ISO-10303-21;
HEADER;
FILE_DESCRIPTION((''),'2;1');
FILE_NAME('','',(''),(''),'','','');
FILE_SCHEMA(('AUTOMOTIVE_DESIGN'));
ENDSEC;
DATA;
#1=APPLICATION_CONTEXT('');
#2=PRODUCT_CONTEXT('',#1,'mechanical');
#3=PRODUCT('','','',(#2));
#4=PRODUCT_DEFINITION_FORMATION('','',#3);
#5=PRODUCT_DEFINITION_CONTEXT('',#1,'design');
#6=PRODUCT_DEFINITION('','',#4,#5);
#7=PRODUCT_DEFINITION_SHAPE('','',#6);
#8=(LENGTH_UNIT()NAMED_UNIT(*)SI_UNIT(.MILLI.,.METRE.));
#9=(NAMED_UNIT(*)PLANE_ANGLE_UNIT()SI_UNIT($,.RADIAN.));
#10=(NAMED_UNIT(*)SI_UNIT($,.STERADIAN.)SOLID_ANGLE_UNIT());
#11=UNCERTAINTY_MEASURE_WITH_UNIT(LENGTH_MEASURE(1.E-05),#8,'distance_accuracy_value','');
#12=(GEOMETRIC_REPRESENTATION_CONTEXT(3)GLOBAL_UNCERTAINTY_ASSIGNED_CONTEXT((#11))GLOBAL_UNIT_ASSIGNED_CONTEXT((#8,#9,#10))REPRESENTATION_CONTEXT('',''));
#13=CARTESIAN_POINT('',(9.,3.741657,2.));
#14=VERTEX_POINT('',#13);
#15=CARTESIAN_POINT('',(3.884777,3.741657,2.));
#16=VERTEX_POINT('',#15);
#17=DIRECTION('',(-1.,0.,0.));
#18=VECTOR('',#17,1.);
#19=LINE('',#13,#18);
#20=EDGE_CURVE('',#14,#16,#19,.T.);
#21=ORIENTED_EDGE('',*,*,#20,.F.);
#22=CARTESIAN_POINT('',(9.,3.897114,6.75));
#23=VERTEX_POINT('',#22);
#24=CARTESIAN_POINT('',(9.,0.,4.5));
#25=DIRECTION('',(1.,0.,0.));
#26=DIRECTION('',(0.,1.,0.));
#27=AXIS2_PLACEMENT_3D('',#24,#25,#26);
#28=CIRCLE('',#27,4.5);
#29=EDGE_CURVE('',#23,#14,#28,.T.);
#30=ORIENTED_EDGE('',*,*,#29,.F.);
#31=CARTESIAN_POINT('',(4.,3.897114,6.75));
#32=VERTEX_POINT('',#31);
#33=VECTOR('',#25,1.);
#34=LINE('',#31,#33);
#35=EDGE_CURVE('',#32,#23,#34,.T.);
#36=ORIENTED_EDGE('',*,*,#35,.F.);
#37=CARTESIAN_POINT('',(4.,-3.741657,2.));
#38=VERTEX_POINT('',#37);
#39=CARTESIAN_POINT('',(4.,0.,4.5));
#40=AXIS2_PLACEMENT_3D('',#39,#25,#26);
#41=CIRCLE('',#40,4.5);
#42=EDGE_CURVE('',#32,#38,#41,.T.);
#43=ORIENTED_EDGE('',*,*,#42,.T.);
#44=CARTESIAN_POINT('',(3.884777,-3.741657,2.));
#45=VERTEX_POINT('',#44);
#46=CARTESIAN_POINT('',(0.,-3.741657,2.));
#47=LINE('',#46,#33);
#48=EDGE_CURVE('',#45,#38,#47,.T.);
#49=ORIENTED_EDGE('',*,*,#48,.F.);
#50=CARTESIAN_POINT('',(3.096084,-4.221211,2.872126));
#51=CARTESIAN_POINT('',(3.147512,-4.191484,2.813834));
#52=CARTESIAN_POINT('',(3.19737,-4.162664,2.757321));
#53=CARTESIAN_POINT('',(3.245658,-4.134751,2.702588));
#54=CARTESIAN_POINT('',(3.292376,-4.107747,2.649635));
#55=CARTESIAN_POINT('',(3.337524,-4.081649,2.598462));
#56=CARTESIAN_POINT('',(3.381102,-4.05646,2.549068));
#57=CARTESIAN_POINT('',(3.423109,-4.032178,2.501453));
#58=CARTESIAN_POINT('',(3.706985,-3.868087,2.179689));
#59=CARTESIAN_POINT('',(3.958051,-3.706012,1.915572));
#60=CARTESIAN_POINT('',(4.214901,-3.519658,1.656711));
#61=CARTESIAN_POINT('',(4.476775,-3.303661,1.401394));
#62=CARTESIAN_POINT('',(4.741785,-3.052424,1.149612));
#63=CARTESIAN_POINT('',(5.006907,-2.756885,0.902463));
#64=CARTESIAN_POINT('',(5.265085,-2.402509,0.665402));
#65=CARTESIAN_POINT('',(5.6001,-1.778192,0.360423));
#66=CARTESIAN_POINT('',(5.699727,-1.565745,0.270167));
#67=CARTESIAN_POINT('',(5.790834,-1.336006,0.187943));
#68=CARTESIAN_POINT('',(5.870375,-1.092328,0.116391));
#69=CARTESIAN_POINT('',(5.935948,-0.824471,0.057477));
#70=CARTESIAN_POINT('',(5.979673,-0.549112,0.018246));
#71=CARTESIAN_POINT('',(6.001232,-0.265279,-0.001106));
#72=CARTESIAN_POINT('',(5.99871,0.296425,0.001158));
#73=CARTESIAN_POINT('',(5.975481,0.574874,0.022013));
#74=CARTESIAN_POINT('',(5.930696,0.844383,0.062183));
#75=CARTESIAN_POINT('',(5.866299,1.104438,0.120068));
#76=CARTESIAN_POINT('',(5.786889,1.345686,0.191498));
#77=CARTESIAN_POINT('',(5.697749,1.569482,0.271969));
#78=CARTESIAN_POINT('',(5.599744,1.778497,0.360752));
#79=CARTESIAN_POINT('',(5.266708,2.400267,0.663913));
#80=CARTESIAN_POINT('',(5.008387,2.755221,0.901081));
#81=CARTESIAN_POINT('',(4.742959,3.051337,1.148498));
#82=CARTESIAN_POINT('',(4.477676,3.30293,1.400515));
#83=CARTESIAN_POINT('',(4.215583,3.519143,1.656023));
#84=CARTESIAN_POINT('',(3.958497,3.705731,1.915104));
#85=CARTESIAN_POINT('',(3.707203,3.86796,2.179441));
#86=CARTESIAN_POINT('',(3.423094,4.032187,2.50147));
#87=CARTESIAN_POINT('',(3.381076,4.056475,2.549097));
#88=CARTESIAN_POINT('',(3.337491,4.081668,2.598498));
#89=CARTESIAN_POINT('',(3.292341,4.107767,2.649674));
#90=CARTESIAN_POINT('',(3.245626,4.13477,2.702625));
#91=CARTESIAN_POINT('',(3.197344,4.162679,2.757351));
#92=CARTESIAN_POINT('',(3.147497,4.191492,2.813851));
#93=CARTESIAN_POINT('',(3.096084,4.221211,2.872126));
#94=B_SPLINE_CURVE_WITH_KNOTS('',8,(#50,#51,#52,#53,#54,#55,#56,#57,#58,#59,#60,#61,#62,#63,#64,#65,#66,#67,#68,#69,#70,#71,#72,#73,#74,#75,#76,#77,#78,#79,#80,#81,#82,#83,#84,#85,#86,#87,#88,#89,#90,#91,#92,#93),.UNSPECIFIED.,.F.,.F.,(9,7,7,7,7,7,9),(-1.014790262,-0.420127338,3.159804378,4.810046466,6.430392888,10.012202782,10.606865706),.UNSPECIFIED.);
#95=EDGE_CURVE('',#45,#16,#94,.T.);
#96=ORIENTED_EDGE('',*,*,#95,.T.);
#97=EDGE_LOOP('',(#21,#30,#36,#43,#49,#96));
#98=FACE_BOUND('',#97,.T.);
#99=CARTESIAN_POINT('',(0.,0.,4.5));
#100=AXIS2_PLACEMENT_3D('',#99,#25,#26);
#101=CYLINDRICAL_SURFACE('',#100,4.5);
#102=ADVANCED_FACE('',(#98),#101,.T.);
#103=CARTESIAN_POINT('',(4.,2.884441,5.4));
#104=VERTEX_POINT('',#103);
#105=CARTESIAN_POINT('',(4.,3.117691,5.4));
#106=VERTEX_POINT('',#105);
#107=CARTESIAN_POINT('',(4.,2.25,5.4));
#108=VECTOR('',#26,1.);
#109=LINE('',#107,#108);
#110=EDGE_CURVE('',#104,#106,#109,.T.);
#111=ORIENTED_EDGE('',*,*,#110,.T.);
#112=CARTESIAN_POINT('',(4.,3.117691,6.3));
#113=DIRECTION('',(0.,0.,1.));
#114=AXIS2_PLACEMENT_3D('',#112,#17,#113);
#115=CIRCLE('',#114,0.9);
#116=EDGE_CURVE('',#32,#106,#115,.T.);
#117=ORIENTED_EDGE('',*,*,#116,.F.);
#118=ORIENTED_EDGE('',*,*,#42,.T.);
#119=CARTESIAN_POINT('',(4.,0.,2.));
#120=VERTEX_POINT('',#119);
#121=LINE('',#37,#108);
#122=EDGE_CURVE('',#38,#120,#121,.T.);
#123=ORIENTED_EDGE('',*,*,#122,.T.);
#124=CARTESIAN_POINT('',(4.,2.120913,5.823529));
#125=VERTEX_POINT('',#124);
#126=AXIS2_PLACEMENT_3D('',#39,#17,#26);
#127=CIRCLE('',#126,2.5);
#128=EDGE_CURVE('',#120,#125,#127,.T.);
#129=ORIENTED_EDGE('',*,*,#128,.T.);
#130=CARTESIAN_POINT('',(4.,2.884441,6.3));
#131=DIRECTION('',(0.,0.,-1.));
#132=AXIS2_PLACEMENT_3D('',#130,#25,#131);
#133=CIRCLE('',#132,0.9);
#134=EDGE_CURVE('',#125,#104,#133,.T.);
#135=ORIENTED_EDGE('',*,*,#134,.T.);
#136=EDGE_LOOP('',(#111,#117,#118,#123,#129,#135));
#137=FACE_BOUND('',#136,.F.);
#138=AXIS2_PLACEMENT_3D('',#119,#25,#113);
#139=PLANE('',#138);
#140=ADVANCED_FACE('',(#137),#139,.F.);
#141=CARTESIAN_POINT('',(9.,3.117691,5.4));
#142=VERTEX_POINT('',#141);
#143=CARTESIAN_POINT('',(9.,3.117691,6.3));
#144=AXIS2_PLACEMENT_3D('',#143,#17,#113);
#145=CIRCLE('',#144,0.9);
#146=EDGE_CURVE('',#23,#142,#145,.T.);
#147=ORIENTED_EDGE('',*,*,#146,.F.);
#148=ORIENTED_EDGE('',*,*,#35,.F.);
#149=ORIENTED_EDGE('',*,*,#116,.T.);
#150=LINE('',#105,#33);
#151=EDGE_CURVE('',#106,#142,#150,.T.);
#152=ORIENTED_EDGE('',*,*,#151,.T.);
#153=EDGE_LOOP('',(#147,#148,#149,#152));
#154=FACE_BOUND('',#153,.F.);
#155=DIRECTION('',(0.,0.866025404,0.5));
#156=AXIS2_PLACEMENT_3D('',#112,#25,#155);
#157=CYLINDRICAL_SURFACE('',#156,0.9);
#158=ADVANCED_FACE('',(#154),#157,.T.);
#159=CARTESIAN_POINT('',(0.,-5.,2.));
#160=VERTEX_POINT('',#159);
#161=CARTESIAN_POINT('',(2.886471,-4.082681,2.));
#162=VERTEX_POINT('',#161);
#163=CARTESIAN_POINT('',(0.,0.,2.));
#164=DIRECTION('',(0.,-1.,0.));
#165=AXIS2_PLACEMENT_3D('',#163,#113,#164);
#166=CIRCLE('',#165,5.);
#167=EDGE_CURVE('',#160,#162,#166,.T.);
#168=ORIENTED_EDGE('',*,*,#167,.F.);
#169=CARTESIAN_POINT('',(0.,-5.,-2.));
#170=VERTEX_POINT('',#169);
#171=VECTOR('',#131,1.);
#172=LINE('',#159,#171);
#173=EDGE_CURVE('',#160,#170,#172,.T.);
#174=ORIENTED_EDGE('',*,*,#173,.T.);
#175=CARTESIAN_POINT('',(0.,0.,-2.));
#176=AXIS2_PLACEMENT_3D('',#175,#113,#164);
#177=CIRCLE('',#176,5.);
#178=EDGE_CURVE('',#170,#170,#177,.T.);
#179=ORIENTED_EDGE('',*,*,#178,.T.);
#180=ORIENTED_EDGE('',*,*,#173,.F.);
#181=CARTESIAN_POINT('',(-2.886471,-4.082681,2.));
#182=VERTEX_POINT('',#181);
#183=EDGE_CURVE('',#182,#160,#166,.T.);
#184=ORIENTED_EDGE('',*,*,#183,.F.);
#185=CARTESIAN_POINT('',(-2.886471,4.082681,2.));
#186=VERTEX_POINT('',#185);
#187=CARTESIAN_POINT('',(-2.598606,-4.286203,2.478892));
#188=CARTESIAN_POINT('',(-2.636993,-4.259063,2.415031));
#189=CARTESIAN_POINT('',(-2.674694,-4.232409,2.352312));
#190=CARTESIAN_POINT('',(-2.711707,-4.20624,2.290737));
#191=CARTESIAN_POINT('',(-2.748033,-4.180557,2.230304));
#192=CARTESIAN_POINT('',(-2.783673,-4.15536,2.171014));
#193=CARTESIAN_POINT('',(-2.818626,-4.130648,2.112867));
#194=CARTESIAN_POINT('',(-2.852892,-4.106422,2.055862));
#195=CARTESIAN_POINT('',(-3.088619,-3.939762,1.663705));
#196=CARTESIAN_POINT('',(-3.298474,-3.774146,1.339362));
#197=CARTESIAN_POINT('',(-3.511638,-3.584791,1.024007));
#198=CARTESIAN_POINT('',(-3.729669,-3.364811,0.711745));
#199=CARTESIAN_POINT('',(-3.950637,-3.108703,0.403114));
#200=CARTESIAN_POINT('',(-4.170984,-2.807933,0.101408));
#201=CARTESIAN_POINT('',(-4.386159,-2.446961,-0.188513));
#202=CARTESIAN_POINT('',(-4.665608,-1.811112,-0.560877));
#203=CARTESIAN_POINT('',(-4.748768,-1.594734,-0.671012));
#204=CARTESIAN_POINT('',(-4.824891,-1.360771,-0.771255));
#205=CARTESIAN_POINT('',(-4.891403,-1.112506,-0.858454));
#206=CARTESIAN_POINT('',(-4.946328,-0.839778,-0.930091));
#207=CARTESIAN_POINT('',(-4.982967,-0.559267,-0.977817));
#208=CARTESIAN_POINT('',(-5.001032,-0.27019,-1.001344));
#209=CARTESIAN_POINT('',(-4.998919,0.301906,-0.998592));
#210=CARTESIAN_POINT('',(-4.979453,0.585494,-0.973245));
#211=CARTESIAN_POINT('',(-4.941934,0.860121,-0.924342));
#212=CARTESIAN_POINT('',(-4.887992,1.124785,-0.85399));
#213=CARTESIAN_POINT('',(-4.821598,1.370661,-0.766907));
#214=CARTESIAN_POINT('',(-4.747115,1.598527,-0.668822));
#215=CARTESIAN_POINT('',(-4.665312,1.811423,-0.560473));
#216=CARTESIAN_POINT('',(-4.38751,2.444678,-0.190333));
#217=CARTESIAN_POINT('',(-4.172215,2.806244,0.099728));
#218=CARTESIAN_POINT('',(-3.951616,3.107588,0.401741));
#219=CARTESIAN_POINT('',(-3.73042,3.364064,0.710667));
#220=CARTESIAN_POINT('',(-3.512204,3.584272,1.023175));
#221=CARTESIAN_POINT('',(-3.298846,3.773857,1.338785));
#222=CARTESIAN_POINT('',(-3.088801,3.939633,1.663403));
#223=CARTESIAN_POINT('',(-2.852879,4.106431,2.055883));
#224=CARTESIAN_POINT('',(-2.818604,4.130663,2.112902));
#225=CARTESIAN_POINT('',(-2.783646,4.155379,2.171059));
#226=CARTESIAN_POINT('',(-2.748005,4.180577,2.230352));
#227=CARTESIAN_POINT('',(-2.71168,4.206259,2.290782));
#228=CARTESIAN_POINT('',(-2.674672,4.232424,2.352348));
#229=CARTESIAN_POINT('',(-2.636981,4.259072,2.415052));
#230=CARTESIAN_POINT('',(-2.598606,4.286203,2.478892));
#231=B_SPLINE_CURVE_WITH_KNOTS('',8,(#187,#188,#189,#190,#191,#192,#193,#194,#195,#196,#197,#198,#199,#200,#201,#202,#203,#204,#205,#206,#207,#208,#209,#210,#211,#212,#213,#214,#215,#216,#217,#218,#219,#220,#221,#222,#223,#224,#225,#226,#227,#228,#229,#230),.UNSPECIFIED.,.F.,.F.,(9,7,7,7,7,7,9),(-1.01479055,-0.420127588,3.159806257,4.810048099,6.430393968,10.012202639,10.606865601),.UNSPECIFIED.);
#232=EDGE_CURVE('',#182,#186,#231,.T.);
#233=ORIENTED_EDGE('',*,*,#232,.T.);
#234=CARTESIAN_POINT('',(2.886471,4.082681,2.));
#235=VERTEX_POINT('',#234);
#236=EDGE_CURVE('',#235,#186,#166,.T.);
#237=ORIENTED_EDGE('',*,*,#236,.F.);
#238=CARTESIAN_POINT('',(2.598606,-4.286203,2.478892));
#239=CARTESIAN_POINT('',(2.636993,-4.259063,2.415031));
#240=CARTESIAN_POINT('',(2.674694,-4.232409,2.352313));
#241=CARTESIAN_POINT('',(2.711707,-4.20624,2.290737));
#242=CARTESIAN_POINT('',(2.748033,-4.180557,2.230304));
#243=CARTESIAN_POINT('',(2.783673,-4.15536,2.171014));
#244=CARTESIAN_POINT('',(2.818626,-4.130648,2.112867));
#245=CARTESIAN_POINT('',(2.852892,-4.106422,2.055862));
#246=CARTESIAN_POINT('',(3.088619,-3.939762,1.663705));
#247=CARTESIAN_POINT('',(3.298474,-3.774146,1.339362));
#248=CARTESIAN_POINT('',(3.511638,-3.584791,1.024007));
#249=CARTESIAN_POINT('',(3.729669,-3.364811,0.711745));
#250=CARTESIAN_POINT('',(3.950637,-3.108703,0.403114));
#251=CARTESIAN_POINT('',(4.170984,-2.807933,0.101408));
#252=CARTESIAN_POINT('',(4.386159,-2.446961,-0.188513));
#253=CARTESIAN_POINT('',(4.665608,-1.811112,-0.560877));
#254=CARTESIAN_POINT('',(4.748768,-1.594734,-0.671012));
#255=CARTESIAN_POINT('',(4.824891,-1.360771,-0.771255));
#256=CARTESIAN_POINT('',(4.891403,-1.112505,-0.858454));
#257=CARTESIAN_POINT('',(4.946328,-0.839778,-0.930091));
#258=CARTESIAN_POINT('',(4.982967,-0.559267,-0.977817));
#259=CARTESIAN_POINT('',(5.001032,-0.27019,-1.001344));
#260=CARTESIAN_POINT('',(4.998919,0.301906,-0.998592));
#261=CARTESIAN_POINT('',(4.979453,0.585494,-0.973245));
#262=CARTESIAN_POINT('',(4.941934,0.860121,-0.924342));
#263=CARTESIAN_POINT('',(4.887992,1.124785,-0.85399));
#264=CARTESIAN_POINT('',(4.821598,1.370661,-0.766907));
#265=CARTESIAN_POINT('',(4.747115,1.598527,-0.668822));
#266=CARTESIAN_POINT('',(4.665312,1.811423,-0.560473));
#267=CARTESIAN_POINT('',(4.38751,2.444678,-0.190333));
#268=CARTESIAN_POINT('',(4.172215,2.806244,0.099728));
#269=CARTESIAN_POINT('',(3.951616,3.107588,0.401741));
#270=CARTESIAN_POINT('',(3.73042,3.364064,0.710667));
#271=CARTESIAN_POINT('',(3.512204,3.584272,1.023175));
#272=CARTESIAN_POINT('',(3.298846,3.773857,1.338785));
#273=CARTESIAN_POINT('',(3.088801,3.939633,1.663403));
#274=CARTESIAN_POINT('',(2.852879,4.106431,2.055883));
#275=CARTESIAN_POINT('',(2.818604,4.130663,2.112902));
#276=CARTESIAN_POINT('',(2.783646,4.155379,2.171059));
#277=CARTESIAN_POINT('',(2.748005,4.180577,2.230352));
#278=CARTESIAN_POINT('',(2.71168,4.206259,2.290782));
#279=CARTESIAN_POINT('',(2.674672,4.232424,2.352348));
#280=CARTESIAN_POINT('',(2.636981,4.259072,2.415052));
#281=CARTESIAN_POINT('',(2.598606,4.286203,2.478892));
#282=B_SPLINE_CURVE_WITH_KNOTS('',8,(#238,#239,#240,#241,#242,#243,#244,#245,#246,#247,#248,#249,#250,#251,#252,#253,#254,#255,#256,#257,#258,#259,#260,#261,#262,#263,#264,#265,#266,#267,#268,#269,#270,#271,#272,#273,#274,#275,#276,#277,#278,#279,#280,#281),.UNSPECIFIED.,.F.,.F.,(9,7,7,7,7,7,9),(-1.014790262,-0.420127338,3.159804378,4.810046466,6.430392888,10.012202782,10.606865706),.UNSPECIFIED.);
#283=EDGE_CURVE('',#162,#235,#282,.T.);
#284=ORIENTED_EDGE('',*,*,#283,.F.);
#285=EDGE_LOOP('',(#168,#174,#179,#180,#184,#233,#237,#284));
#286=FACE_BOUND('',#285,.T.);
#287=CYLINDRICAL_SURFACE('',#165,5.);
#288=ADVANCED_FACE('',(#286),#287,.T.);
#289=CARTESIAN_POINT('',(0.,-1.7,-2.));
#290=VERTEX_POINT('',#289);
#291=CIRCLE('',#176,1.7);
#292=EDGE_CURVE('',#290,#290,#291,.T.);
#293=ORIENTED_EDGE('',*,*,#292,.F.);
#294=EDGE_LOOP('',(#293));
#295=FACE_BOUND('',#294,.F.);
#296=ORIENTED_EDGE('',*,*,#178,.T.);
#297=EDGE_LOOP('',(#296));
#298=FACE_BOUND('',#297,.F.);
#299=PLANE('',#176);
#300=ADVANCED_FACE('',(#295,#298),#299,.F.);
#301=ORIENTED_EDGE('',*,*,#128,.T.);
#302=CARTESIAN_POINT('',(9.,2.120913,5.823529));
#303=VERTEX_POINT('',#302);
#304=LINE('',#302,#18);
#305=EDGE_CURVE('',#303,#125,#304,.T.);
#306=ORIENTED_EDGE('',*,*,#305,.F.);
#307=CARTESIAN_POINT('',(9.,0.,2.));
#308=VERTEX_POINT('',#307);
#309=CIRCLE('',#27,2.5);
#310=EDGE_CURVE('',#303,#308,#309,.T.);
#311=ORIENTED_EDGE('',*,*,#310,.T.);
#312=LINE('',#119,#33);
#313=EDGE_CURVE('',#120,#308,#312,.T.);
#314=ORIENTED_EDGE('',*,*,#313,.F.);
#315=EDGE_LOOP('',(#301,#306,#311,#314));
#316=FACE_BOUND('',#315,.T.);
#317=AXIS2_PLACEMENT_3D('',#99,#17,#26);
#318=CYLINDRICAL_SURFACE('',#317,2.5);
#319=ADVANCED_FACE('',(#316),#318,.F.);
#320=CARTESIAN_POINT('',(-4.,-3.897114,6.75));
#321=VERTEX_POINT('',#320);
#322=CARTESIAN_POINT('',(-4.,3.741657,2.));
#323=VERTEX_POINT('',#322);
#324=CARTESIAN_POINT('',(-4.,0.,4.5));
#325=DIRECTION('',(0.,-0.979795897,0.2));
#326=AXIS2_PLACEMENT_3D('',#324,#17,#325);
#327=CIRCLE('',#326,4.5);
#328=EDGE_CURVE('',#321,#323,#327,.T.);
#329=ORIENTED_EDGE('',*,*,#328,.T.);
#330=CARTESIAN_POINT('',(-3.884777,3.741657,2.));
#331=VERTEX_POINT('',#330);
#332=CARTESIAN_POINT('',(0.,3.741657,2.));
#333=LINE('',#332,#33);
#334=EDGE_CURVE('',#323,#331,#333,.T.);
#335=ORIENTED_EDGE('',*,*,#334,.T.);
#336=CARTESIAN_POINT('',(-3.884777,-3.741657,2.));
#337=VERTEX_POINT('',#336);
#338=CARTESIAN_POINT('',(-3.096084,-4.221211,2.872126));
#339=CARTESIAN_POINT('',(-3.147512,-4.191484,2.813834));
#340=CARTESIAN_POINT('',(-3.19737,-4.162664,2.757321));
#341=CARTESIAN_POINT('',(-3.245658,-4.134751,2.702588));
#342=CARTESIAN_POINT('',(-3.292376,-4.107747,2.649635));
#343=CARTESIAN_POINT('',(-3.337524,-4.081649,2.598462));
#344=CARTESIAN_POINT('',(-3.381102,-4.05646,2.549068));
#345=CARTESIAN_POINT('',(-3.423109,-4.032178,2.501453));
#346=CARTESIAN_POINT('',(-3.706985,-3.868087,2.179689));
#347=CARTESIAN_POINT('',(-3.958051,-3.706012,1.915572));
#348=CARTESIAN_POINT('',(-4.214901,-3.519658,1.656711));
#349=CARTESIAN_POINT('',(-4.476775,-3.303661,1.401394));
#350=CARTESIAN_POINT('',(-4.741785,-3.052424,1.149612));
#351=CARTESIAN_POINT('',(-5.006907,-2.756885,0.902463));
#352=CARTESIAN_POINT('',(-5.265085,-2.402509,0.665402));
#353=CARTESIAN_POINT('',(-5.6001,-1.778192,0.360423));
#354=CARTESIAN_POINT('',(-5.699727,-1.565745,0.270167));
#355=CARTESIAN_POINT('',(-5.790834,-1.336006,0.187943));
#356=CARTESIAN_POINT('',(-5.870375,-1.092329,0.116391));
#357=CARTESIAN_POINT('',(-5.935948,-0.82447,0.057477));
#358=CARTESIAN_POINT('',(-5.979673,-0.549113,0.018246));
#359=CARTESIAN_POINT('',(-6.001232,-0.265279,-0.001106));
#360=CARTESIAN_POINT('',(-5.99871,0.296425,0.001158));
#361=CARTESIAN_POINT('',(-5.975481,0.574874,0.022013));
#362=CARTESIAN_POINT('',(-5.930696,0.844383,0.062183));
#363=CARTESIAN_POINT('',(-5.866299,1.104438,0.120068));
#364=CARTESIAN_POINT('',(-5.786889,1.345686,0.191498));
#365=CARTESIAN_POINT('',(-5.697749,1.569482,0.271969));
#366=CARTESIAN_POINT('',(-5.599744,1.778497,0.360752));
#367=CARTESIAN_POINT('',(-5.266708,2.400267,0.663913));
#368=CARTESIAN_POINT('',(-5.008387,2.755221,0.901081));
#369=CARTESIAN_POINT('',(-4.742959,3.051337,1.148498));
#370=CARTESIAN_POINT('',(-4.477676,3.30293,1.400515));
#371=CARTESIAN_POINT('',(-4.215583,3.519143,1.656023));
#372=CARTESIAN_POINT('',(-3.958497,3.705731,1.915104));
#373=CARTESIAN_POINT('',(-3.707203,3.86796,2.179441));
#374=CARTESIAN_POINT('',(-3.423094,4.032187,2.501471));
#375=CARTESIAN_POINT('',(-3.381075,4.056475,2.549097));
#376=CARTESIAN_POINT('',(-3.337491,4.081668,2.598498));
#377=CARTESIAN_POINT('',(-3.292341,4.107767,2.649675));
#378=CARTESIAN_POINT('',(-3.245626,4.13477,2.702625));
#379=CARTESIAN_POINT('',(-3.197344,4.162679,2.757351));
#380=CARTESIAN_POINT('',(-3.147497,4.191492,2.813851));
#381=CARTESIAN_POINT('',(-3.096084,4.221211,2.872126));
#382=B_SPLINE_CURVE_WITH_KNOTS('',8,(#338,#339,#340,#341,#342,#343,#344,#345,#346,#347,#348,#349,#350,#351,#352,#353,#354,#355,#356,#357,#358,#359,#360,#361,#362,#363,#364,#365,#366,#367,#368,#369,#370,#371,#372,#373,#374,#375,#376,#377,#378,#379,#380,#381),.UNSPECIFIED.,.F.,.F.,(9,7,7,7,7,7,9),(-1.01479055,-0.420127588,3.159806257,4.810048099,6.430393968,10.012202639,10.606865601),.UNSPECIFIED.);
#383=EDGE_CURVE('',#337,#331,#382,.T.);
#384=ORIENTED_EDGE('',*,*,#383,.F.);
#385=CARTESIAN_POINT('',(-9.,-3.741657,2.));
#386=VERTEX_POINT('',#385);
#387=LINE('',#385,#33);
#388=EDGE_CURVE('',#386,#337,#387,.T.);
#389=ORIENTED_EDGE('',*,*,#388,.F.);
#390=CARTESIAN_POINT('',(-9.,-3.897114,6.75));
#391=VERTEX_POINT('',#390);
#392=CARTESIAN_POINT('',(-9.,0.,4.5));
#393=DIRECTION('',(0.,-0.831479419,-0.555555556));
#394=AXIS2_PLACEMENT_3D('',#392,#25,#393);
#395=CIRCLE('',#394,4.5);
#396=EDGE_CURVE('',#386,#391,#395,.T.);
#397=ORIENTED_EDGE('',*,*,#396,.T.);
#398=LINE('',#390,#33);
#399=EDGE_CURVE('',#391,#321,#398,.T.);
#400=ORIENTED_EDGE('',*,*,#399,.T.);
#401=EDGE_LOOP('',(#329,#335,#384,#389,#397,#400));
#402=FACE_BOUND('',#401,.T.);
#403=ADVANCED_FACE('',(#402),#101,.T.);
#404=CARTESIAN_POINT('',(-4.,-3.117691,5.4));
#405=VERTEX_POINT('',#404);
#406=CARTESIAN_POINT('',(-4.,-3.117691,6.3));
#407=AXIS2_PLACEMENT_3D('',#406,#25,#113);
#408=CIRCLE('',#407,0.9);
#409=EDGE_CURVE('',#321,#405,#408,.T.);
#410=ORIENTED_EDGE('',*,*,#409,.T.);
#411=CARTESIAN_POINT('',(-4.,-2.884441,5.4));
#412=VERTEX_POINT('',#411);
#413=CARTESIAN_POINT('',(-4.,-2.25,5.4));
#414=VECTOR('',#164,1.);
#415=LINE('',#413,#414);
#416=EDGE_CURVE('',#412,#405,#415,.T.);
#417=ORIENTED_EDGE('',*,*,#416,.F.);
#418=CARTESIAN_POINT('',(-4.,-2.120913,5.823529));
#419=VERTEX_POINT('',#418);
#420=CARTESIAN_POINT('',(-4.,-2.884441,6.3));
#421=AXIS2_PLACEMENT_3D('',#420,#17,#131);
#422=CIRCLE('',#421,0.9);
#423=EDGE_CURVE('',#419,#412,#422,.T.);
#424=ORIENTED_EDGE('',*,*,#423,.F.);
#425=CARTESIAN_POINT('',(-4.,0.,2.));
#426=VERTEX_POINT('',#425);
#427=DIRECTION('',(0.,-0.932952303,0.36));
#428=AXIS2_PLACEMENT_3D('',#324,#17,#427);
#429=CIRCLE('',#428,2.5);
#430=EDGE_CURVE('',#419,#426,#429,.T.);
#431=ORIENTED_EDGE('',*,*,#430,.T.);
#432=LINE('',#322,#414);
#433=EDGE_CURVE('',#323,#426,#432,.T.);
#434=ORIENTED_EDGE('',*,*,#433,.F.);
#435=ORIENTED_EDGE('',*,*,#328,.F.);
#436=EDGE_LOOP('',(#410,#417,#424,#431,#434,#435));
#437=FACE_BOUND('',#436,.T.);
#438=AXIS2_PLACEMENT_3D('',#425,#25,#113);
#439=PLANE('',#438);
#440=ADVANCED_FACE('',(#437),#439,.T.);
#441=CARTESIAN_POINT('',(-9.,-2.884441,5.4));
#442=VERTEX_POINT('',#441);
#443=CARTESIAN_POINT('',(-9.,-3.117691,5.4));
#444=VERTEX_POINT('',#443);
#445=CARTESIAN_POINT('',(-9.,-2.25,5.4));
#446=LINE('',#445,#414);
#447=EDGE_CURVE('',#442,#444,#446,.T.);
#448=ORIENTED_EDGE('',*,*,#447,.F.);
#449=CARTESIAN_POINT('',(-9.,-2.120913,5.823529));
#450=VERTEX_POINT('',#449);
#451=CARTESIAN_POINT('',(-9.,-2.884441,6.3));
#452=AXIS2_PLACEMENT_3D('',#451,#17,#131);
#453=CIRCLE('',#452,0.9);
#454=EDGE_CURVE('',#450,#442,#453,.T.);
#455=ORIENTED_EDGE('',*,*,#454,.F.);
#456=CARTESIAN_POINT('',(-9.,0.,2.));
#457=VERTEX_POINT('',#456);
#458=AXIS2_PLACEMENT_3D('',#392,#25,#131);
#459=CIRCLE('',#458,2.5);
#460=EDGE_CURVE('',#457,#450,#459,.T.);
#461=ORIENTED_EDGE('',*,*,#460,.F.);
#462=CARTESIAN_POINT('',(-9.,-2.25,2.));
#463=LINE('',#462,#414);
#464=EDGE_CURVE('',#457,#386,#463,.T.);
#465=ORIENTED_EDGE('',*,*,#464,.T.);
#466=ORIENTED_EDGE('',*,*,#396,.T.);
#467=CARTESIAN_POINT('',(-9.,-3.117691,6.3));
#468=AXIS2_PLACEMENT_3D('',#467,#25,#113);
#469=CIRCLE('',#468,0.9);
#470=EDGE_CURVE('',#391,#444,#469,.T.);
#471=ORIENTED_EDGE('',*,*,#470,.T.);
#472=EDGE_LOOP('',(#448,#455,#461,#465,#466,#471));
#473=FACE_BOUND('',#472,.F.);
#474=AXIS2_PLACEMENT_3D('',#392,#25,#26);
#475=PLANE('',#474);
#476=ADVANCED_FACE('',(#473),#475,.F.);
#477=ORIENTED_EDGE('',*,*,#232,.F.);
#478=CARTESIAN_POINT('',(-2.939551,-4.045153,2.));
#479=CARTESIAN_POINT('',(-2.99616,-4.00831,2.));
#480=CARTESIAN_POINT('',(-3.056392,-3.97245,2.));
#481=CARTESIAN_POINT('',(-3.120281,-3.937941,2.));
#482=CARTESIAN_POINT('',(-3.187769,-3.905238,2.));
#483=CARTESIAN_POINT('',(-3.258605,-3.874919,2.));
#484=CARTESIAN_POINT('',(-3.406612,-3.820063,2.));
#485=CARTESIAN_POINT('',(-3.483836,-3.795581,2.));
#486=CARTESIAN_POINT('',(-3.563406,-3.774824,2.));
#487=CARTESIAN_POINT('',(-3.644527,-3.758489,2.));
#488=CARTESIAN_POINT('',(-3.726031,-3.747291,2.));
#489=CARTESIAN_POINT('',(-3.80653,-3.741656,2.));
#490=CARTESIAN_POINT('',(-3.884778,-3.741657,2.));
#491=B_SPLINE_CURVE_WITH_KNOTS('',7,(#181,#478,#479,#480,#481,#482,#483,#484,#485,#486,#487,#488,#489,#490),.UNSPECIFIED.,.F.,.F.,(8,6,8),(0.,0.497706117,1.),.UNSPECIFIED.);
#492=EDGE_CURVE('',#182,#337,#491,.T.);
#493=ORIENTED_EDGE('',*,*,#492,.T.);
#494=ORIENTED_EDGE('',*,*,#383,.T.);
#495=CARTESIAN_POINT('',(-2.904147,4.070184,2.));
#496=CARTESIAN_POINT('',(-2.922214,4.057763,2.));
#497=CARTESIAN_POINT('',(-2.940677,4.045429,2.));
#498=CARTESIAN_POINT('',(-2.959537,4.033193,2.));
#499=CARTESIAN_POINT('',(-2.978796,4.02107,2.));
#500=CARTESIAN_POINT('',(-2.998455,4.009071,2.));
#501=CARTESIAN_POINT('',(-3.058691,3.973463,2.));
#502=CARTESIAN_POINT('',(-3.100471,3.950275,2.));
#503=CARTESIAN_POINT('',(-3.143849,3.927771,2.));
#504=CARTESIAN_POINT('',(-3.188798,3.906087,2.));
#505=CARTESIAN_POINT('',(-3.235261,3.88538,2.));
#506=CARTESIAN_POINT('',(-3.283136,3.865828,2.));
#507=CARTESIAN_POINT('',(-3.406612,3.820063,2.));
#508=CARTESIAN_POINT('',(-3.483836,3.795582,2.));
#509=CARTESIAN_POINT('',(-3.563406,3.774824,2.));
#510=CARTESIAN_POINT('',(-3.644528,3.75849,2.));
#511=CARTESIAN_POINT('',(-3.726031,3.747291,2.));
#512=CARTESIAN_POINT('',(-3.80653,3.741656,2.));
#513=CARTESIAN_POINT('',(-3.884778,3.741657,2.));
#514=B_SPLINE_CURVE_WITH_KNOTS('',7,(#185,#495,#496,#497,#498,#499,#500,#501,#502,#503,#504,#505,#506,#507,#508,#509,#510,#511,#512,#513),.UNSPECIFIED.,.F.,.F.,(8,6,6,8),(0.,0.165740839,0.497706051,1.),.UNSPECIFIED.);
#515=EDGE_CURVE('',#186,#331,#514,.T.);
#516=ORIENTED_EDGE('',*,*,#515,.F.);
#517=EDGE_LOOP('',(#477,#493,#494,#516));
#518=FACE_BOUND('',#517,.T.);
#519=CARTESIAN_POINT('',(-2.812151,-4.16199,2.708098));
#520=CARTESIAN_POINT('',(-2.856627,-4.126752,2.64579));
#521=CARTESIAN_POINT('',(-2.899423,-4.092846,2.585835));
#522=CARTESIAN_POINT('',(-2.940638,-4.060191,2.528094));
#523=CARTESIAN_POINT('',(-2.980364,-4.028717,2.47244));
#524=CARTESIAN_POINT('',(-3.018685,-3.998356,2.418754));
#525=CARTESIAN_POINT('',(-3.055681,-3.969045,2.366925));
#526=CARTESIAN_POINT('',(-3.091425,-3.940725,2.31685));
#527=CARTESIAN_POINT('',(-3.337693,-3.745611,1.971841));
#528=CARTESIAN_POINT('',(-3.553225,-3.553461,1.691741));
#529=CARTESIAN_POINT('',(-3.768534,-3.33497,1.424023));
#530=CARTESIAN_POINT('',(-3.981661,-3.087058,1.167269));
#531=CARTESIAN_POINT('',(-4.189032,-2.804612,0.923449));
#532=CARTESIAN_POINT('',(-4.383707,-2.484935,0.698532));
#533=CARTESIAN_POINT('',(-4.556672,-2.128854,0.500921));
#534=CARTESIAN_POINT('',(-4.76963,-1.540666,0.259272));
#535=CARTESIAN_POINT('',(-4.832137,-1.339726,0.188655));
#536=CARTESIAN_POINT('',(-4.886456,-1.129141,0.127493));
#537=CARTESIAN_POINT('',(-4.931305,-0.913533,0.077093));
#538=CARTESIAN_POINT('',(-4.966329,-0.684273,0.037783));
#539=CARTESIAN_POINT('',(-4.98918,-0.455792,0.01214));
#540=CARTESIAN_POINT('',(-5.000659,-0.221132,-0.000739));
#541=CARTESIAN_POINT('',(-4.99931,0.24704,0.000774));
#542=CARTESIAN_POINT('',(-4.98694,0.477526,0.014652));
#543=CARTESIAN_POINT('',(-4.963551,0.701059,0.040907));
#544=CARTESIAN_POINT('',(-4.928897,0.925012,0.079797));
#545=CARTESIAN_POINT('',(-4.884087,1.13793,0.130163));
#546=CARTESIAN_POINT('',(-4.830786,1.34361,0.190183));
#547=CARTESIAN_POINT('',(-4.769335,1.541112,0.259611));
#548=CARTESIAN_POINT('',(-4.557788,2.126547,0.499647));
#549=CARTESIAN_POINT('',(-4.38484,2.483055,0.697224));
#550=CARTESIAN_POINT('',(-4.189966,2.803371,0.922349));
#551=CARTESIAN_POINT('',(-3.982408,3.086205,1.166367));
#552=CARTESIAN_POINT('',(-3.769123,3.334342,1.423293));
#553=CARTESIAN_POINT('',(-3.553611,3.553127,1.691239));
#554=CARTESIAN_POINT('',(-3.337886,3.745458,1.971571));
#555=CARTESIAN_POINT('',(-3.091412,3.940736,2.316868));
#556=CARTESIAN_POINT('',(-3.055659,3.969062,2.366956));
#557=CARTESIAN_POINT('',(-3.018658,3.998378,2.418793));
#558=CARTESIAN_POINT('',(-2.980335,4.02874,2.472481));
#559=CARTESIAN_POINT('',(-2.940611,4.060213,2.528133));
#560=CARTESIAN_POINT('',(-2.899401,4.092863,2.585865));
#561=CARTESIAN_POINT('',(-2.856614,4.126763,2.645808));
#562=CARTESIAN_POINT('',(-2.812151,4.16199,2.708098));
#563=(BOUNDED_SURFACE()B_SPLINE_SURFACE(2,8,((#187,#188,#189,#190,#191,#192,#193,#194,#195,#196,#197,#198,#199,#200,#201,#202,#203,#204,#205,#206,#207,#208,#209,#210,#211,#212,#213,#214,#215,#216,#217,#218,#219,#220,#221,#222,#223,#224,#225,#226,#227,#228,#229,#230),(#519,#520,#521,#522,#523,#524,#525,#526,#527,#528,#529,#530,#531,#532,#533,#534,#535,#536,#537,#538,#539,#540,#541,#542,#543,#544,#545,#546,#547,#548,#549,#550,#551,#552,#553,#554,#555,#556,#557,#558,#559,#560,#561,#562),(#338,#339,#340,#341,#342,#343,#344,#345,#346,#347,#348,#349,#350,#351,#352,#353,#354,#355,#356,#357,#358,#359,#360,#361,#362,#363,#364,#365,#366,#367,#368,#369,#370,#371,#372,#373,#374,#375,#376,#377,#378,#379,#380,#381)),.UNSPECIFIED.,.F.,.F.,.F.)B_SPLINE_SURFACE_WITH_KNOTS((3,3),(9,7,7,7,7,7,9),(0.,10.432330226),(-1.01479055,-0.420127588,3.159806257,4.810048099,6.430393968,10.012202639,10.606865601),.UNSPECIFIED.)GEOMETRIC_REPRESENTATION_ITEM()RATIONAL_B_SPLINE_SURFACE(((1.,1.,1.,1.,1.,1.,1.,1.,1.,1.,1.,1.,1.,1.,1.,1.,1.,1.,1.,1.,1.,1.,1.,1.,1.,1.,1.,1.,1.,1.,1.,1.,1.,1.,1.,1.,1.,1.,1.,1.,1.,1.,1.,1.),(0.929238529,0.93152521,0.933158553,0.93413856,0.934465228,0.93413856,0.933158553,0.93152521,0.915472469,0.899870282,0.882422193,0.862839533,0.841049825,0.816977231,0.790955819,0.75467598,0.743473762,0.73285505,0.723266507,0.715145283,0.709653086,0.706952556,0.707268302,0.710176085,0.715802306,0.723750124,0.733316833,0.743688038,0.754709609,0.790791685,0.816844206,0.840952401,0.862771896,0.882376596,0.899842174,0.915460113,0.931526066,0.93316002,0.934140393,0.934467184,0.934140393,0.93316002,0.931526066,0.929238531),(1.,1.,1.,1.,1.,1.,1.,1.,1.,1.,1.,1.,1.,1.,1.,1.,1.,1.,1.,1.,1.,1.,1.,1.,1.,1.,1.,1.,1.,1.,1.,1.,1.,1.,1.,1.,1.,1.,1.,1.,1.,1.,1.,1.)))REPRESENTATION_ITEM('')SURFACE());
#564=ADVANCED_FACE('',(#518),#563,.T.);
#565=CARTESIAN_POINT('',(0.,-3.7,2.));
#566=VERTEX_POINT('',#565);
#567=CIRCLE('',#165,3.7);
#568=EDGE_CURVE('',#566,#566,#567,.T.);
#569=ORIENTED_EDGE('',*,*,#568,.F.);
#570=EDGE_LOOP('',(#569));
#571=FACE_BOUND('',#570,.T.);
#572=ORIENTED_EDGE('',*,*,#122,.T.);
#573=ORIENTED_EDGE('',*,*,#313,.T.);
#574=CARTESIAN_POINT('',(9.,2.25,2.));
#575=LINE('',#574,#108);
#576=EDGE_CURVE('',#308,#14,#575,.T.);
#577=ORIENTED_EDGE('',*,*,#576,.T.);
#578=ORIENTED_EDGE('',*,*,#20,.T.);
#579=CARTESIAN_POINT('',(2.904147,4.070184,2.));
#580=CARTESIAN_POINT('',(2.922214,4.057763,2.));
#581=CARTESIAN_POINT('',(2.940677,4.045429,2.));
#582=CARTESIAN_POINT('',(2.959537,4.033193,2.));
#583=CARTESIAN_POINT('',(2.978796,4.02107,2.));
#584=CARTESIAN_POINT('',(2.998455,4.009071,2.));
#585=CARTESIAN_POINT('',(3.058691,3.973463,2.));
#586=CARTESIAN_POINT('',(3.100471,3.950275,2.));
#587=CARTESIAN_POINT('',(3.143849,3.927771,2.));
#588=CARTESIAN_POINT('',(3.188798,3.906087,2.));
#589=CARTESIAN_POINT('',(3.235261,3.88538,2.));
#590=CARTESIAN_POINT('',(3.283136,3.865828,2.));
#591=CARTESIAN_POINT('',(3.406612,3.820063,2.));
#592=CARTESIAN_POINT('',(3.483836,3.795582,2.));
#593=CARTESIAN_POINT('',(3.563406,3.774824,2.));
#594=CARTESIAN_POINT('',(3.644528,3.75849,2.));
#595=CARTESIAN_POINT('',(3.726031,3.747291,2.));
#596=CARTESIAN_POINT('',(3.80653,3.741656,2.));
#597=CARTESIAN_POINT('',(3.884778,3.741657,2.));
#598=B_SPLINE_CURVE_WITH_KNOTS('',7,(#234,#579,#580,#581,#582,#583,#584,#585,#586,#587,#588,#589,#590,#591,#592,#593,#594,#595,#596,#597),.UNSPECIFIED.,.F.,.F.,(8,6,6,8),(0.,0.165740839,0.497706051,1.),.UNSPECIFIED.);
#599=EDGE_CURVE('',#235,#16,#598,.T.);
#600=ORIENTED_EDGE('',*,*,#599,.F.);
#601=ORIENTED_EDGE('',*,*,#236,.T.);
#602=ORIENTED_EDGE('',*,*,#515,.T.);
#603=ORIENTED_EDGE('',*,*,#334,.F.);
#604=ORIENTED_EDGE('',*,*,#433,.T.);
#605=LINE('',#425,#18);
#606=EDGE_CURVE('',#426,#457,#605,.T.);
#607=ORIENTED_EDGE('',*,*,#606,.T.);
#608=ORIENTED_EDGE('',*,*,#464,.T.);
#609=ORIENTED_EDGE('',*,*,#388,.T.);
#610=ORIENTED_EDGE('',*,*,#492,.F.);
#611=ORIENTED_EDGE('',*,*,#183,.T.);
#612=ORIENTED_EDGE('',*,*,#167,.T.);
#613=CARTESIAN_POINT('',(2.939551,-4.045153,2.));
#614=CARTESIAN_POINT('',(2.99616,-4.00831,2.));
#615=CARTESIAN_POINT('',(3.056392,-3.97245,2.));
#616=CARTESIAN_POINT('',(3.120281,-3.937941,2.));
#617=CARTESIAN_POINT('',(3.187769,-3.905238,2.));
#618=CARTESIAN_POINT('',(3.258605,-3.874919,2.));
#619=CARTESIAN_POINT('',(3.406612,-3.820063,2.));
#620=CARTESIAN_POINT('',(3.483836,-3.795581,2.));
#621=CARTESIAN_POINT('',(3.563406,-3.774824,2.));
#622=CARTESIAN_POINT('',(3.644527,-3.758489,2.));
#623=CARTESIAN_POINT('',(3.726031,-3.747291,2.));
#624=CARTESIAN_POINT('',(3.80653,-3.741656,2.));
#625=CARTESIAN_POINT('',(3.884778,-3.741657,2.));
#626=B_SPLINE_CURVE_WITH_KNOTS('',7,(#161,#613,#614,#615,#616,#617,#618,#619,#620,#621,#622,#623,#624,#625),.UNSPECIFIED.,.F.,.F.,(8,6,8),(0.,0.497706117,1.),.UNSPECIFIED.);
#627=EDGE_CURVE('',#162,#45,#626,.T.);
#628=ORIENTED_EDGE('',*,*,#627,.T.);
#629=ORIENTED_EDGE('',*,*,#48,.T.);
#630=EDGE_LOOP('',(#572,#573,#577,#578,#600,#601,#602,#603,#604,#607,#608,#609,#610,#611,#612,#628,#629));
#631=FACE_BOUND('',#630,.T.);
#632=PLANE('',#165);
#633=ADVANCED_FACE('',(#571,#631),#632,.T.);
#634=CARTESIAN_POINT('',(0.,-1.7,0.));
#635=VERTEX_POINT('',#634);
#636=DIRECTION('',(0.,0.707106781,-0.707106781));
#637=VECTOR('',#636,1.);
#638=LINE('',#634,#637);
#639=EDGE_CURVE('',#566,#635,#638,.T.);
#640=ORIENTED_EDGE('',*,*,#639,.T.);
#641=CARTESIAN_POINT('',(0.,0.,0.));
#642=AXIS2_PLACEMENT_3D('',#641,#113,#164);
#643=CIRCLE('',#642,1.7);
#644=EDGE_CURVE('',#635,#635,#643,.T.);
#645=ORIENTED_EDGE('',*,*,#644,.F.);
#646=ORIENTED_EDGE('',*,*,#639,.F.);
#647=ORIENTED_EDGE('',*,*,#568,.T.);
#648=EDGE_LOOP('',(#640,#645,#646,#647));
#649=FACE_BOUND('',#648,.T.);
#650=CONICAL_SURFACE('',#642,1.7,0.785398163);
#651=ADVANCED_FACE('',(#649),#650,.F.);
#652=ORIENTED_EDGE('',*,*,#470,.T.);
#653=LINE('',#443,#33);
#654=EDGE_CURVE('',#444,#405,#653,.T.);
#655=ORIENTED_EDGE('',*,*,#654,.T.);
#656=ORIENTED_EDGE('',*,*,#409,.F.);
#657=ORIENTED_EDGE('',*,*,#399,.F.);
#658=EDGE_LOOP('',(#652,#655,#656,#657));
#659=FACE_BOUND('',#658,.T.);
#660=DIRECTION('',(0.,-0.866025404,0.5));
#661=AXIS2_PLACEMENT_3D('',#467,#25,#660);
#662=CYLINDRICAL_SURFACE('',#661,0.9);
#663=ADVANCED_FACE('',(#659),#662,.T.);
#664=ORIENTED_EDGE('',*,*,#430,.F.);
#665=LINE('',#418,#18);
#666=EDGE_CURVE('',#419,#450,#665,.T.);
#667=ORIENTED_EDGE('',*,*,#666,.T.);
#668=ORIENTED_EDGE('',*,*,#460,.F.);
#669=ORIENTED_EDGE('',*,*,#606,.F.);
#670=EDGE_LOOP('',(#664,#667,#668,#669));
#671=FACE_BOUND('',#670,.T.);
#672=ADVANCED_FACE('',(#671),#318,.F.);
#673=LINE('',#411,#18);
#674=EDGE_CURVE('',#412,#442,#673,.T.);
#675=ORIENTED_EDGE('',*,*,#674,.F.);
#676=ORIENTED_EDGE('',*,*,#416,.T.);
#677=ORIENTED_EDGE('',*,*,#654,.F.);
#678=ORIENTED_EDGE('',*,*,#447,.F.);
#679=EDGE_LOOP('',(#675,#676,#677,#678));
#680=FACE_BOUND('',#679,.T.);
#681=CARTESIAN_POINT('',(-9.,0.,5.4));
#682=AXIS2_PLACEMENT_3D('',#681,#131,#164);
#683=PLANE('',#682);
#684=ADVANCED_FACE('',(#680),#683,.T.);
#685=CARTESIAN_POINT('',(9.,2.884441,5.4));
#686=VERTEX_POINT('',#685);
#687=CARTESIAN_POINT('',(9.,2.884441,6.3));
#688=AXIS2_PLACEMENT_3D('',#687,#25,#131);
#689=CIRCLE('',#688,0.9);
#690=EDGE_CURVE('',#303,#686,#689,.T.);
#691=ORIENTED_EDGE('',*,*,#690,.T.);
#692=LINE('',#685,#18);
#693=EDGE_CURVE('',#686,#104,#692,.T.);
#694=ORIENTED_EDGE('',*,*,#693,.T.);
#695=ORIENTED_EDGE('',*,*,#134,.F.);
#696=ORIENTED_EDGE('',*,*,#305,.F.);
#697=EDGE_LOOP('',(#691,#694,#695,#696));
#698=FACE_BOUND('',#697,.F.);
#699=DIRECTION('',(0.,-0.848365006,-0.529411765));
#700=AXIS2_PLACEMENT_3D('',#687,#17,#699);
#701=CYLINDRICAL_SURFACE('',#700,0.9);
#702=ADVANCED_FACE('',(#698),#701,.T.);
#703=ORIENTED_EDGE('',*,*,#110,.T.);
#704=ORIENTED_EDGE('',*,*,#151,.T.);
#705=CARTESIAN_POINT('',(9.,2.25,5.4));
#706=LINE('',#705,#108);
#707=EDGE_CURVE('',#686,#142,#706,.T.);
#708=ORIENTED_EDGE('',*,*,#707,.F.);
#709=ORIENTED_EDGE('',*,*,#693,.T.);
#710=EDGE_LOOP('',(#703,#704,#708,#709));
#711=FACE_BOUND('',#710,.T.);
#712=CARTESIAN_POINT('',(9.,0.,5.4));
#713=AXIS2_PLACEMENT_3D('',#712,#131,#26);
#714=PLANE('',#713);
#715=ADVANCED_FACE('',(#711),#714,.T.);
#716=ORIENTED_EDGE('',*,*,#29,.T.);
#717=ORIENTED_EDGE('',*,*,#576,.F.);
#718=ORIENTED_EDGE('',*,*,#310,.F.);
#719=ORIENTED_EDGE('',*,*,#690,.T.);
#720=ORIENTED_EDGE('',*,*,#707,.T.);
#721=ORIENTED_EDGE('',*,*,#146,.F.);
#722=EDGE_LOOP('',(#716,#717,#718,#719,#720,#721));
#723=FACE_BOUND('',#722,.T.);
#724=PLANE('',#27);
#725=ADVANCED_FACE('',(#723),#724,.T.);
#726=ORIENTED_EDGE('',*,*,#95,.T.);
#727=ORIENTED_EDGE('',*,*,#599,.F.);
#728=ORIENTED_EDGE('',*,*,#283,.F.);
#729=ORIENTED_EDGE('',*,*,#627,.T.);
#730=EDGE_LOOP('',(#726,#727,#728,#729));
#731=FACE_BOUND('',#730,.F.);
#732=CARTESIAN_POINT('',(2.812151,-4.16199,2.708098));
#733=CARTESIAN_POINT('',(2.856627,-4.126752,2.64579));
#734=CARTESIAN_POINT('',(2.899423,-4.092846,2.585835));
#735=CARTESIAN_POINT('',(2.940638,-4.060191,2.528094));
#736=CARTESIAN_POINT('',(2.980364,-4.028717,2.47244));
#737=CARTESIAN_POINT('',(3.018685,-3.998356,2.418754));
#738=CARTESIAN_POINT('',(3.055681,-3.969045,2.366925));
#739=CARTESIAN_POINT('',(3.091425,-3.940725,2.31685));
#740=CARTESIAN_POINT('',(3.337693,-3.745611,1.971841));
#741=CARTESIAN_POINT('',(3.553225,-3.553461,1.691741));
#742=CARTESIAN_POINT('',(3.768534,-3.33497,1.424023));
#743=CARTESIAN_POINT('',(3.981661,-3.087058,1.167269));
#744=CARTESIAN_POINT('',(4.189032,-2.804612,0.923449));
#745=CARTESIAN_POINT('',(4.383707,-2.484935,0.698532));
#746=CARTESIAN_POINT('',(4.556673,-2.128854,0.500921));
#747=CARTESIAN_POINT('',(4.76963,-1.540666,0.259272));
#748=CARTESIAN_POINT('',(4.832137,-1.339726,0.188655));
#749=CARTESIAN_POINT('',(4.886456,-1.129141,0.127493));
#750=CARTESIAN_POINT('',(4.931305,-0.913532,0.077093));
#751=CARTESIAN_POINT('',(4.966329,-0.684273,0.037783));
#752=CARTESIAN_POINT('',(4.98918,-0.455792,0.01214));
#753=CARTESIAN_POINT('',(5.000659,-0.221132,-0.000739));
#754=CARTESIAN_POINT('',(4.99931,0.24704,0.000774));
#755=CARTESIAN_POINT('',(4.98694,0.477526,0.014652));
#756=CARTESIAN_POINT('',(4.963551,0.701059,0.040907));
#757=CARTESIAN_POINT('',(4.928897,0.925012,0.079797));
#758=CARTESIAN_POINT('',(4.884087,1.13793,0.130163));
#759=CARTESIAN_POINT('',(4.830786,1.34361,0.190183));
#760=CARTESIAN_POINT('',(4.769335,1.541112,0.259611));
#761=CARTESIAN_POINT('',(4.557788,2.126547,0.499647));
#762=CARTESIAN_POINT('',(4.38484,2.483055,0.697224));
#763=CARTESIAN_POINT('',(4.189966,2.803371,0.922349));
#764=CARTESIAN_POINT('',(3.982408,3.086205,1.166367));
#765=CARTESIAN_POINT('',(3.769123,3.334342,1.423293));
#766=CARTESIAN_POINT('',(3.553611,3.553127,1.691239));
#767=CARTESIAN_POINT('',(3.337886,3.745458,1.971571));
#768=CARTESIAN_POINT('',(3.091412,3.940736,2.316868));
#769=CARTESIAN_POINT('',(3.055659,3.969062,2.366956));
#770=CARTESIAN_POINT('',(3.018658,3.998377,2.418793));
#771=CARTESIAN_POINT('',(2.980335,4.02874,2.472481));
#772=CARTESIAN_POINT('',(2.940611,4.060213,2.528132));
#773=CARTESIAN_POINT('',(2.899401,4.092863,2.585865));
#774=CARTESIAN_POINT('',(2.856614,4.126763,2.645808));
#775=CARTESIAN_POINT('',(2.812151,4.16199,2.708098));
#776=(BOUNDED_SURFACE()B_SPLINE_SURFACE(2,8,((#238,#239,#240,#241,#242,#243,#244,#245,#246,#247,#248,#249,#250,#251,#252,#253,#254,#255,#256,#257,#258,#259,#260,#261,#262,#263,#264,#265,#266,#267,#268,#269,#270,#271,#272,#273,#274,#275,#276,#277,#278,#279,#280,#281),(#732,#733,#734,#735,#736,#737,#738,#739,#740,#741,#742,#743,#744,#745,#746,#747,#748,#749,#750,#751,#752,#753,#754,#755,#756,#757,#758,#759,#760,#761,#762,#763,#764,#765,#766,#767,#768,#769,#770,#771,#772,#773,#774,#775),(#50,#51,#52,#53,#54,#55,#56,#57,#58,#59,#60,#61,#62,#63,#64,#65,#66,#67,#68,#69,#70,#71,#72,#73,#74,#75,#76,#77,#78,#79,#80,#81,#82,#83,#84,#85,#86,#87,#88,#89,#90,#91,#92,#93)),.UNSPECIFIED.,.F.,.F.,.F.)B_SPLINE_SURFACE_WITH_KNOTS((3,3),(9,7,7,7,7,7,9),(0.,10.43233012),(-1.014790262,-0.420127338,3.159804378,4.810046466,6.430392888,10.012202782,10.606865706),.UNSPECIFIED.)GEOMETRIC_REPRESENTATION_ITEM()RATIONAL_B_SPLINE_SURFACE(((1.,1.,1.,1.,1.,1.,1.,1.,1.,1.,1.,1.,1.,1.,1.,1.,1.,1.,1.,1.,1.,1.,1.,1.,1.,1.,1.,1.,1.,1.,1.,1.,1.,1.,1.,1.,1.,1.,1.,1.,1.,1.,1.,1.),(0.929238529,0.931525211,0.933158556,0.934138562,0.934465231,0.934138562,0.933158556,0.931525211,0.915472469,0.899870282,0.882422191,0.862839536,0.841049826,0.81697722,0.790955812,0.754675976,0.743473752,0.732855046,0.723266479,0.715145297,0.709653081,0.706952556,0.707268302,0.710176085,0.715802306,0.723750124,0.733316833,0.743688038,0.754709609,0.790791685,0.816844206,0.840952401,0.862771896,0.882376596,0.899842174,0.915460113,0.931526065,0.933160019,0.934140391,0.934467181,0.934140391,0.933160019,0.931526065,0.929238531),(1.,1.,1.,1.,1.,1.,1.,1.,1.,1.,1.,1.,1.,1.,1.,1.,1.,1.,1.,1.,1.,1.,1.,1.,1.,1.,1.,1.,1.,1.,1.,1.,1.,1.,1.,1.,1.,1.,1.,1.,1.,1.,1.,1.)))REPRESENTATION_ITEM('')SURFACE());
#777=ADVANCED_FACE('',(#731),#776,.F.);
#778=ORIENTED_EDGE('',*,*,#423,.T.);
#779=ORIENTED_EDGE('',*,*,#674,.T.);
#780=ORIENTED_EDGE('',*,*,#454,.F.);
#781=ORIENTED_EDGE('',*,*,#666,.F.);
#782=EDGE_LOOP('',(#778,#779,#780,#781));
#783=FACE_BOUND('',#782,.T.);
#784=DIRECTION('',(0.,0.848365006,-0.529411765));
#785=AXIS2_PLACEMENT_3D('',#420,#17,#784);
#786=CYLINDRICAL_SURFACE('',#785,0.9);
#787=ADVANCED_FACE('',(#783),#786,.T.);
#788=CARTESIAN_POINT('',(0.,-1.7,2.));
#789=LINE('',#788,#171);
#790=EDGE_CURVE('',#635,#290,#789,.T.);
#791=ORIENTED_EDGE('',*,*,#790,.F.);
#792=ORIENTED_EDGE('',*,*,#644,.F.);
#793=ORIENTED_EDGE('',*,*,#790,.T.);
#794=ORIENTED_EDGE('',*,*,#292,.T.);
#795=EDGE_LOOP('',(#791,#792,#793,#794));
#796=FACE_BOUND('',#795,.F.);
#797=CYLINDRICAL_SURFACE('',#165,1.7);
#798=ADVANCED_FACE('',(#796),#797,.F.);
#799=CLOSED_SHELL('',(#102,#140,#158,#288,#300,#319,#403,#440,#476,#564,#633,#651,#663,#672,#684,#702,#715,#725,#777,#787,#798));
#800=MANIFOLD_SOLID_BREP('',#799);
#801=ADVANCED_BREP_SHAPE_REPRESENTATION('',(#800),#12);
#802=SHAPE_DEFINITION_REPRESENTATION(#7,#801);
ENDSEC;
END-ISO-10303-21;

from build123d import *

# Parameters (mm, degrees)
SKETCH001_R        = 4.5
SKETCH001_R_2      = 2.5
PAD001_DEPTH       = 9
SKETCH_W           = 8
SKETCH_H           = 7
POCKET_DEPTH       = 4.5
SKETCH006_R        = 5
PAD_DEPTH          = 4
SKETCH004_W        = 4.5
SKETCH004_H        = 3.4
POCKET001_DEPTH    = 5
POLARPATTERN_COUNT = 2
SKETCH007_R        = 1.7
POCKET002_DEPTH    = 4
FILLET_R           = 1
CHAMFER_SIZE       = 2
FILLET001_R        = 0.9


with BuildPart() as part:
    # Sketch001 → Pad001 (new body, symmetric)
    with BuildSketch(Plane.YZ):
        with Locations((0, 4.5)):
            Circle(SKETCH001_R)
        with Locations((0, 4.5)):
            Circle(SKETCH001_R_2, mode=Mode.SUBTRACT)
    extrude(amount=PAD001_DEPTH, both=True)

    # Sketch → Pocket (cut, symmetric)
    with BuildSketch(Plane.XZ):
        with Locations((0, 5.5)):
            Rectangle(SKETCH_W, SKETCH_H)
    extrude(amount=POCKET_DEPTH, both=True, mode=Mode.SUBTRACT)

    # Sketch006 → Pad (join)
    with BuildSketch(Plane(origin=(0, 0, 2), x_dir=(0, -1, 0), z_dir=(0, 0, 1))):
        Circle(SKETCH006_R)
    extrude(amount=-PAD_DEPTH)

    # Sketch004 → Pocket001 (cut)
    with BuildSketch(Plane.YZ.offset(9)):
        with Locations((2.25, 3.7)):
            Rectangle(SKETCH004_W, SKETCH004_H)
    pocket001 = extrude(amount=-POCKET001_DEPTH, mode=Mode.SUBTRACT)

    # PolarPattern: Pocket001 ×2 about axis
    polarpattern_axis = Axis((0, 0, 0), (0, 0, 1))
    for i in range(1, POLARPATTERN_COUNT):
        add(pocket001.rotate(polarpattern_axis, i * 360 / POLARPATTERN_COUNT), mode=Mode.SUBTRACT)

    # Sketch007 (on Face9 of Pad) → Pocket002 (cut)
    with BuildSketch(Plane(origin=(0, 0, 2), x_dir=(0, -1, 0), z_dir=(0, 0, 1))):
        Circle(SKETCH007_R)
    extrude(amount=-POCKET002_DEPTH, mode=Mode.SUBTRACT)

    # Fillet
    fillet_edges = [part.edges().sort_by_distance(p)[0] for p in [
        (-5, 0, 0),
        (5, 0, 0),
    ]]
    fillet(fillet_edges, radius=FILLET_R)

    # Chamfer
    chamfer_edges = [part.edges().sort_by_distance(p)[0] for p in [
        (1.202082, -1.202082, 2),
    ]]
    chamfer(chamfer_edges, length=CHAMFER_SIZE)

    # Fillet001
    fillet001_edges = [part.edges().sort_by_distance(p)[0] for p in [
        (6.5, 2.332381, 5.4),
        (6.5, 4.409082, 5.4),
        (-6.5, -2.332381, 5.4),
        (-6.5, -4.409082, 5.4),
    ]]
    fillet(fillet001_edges, radius=FILLET001_R)


solid = part.part
